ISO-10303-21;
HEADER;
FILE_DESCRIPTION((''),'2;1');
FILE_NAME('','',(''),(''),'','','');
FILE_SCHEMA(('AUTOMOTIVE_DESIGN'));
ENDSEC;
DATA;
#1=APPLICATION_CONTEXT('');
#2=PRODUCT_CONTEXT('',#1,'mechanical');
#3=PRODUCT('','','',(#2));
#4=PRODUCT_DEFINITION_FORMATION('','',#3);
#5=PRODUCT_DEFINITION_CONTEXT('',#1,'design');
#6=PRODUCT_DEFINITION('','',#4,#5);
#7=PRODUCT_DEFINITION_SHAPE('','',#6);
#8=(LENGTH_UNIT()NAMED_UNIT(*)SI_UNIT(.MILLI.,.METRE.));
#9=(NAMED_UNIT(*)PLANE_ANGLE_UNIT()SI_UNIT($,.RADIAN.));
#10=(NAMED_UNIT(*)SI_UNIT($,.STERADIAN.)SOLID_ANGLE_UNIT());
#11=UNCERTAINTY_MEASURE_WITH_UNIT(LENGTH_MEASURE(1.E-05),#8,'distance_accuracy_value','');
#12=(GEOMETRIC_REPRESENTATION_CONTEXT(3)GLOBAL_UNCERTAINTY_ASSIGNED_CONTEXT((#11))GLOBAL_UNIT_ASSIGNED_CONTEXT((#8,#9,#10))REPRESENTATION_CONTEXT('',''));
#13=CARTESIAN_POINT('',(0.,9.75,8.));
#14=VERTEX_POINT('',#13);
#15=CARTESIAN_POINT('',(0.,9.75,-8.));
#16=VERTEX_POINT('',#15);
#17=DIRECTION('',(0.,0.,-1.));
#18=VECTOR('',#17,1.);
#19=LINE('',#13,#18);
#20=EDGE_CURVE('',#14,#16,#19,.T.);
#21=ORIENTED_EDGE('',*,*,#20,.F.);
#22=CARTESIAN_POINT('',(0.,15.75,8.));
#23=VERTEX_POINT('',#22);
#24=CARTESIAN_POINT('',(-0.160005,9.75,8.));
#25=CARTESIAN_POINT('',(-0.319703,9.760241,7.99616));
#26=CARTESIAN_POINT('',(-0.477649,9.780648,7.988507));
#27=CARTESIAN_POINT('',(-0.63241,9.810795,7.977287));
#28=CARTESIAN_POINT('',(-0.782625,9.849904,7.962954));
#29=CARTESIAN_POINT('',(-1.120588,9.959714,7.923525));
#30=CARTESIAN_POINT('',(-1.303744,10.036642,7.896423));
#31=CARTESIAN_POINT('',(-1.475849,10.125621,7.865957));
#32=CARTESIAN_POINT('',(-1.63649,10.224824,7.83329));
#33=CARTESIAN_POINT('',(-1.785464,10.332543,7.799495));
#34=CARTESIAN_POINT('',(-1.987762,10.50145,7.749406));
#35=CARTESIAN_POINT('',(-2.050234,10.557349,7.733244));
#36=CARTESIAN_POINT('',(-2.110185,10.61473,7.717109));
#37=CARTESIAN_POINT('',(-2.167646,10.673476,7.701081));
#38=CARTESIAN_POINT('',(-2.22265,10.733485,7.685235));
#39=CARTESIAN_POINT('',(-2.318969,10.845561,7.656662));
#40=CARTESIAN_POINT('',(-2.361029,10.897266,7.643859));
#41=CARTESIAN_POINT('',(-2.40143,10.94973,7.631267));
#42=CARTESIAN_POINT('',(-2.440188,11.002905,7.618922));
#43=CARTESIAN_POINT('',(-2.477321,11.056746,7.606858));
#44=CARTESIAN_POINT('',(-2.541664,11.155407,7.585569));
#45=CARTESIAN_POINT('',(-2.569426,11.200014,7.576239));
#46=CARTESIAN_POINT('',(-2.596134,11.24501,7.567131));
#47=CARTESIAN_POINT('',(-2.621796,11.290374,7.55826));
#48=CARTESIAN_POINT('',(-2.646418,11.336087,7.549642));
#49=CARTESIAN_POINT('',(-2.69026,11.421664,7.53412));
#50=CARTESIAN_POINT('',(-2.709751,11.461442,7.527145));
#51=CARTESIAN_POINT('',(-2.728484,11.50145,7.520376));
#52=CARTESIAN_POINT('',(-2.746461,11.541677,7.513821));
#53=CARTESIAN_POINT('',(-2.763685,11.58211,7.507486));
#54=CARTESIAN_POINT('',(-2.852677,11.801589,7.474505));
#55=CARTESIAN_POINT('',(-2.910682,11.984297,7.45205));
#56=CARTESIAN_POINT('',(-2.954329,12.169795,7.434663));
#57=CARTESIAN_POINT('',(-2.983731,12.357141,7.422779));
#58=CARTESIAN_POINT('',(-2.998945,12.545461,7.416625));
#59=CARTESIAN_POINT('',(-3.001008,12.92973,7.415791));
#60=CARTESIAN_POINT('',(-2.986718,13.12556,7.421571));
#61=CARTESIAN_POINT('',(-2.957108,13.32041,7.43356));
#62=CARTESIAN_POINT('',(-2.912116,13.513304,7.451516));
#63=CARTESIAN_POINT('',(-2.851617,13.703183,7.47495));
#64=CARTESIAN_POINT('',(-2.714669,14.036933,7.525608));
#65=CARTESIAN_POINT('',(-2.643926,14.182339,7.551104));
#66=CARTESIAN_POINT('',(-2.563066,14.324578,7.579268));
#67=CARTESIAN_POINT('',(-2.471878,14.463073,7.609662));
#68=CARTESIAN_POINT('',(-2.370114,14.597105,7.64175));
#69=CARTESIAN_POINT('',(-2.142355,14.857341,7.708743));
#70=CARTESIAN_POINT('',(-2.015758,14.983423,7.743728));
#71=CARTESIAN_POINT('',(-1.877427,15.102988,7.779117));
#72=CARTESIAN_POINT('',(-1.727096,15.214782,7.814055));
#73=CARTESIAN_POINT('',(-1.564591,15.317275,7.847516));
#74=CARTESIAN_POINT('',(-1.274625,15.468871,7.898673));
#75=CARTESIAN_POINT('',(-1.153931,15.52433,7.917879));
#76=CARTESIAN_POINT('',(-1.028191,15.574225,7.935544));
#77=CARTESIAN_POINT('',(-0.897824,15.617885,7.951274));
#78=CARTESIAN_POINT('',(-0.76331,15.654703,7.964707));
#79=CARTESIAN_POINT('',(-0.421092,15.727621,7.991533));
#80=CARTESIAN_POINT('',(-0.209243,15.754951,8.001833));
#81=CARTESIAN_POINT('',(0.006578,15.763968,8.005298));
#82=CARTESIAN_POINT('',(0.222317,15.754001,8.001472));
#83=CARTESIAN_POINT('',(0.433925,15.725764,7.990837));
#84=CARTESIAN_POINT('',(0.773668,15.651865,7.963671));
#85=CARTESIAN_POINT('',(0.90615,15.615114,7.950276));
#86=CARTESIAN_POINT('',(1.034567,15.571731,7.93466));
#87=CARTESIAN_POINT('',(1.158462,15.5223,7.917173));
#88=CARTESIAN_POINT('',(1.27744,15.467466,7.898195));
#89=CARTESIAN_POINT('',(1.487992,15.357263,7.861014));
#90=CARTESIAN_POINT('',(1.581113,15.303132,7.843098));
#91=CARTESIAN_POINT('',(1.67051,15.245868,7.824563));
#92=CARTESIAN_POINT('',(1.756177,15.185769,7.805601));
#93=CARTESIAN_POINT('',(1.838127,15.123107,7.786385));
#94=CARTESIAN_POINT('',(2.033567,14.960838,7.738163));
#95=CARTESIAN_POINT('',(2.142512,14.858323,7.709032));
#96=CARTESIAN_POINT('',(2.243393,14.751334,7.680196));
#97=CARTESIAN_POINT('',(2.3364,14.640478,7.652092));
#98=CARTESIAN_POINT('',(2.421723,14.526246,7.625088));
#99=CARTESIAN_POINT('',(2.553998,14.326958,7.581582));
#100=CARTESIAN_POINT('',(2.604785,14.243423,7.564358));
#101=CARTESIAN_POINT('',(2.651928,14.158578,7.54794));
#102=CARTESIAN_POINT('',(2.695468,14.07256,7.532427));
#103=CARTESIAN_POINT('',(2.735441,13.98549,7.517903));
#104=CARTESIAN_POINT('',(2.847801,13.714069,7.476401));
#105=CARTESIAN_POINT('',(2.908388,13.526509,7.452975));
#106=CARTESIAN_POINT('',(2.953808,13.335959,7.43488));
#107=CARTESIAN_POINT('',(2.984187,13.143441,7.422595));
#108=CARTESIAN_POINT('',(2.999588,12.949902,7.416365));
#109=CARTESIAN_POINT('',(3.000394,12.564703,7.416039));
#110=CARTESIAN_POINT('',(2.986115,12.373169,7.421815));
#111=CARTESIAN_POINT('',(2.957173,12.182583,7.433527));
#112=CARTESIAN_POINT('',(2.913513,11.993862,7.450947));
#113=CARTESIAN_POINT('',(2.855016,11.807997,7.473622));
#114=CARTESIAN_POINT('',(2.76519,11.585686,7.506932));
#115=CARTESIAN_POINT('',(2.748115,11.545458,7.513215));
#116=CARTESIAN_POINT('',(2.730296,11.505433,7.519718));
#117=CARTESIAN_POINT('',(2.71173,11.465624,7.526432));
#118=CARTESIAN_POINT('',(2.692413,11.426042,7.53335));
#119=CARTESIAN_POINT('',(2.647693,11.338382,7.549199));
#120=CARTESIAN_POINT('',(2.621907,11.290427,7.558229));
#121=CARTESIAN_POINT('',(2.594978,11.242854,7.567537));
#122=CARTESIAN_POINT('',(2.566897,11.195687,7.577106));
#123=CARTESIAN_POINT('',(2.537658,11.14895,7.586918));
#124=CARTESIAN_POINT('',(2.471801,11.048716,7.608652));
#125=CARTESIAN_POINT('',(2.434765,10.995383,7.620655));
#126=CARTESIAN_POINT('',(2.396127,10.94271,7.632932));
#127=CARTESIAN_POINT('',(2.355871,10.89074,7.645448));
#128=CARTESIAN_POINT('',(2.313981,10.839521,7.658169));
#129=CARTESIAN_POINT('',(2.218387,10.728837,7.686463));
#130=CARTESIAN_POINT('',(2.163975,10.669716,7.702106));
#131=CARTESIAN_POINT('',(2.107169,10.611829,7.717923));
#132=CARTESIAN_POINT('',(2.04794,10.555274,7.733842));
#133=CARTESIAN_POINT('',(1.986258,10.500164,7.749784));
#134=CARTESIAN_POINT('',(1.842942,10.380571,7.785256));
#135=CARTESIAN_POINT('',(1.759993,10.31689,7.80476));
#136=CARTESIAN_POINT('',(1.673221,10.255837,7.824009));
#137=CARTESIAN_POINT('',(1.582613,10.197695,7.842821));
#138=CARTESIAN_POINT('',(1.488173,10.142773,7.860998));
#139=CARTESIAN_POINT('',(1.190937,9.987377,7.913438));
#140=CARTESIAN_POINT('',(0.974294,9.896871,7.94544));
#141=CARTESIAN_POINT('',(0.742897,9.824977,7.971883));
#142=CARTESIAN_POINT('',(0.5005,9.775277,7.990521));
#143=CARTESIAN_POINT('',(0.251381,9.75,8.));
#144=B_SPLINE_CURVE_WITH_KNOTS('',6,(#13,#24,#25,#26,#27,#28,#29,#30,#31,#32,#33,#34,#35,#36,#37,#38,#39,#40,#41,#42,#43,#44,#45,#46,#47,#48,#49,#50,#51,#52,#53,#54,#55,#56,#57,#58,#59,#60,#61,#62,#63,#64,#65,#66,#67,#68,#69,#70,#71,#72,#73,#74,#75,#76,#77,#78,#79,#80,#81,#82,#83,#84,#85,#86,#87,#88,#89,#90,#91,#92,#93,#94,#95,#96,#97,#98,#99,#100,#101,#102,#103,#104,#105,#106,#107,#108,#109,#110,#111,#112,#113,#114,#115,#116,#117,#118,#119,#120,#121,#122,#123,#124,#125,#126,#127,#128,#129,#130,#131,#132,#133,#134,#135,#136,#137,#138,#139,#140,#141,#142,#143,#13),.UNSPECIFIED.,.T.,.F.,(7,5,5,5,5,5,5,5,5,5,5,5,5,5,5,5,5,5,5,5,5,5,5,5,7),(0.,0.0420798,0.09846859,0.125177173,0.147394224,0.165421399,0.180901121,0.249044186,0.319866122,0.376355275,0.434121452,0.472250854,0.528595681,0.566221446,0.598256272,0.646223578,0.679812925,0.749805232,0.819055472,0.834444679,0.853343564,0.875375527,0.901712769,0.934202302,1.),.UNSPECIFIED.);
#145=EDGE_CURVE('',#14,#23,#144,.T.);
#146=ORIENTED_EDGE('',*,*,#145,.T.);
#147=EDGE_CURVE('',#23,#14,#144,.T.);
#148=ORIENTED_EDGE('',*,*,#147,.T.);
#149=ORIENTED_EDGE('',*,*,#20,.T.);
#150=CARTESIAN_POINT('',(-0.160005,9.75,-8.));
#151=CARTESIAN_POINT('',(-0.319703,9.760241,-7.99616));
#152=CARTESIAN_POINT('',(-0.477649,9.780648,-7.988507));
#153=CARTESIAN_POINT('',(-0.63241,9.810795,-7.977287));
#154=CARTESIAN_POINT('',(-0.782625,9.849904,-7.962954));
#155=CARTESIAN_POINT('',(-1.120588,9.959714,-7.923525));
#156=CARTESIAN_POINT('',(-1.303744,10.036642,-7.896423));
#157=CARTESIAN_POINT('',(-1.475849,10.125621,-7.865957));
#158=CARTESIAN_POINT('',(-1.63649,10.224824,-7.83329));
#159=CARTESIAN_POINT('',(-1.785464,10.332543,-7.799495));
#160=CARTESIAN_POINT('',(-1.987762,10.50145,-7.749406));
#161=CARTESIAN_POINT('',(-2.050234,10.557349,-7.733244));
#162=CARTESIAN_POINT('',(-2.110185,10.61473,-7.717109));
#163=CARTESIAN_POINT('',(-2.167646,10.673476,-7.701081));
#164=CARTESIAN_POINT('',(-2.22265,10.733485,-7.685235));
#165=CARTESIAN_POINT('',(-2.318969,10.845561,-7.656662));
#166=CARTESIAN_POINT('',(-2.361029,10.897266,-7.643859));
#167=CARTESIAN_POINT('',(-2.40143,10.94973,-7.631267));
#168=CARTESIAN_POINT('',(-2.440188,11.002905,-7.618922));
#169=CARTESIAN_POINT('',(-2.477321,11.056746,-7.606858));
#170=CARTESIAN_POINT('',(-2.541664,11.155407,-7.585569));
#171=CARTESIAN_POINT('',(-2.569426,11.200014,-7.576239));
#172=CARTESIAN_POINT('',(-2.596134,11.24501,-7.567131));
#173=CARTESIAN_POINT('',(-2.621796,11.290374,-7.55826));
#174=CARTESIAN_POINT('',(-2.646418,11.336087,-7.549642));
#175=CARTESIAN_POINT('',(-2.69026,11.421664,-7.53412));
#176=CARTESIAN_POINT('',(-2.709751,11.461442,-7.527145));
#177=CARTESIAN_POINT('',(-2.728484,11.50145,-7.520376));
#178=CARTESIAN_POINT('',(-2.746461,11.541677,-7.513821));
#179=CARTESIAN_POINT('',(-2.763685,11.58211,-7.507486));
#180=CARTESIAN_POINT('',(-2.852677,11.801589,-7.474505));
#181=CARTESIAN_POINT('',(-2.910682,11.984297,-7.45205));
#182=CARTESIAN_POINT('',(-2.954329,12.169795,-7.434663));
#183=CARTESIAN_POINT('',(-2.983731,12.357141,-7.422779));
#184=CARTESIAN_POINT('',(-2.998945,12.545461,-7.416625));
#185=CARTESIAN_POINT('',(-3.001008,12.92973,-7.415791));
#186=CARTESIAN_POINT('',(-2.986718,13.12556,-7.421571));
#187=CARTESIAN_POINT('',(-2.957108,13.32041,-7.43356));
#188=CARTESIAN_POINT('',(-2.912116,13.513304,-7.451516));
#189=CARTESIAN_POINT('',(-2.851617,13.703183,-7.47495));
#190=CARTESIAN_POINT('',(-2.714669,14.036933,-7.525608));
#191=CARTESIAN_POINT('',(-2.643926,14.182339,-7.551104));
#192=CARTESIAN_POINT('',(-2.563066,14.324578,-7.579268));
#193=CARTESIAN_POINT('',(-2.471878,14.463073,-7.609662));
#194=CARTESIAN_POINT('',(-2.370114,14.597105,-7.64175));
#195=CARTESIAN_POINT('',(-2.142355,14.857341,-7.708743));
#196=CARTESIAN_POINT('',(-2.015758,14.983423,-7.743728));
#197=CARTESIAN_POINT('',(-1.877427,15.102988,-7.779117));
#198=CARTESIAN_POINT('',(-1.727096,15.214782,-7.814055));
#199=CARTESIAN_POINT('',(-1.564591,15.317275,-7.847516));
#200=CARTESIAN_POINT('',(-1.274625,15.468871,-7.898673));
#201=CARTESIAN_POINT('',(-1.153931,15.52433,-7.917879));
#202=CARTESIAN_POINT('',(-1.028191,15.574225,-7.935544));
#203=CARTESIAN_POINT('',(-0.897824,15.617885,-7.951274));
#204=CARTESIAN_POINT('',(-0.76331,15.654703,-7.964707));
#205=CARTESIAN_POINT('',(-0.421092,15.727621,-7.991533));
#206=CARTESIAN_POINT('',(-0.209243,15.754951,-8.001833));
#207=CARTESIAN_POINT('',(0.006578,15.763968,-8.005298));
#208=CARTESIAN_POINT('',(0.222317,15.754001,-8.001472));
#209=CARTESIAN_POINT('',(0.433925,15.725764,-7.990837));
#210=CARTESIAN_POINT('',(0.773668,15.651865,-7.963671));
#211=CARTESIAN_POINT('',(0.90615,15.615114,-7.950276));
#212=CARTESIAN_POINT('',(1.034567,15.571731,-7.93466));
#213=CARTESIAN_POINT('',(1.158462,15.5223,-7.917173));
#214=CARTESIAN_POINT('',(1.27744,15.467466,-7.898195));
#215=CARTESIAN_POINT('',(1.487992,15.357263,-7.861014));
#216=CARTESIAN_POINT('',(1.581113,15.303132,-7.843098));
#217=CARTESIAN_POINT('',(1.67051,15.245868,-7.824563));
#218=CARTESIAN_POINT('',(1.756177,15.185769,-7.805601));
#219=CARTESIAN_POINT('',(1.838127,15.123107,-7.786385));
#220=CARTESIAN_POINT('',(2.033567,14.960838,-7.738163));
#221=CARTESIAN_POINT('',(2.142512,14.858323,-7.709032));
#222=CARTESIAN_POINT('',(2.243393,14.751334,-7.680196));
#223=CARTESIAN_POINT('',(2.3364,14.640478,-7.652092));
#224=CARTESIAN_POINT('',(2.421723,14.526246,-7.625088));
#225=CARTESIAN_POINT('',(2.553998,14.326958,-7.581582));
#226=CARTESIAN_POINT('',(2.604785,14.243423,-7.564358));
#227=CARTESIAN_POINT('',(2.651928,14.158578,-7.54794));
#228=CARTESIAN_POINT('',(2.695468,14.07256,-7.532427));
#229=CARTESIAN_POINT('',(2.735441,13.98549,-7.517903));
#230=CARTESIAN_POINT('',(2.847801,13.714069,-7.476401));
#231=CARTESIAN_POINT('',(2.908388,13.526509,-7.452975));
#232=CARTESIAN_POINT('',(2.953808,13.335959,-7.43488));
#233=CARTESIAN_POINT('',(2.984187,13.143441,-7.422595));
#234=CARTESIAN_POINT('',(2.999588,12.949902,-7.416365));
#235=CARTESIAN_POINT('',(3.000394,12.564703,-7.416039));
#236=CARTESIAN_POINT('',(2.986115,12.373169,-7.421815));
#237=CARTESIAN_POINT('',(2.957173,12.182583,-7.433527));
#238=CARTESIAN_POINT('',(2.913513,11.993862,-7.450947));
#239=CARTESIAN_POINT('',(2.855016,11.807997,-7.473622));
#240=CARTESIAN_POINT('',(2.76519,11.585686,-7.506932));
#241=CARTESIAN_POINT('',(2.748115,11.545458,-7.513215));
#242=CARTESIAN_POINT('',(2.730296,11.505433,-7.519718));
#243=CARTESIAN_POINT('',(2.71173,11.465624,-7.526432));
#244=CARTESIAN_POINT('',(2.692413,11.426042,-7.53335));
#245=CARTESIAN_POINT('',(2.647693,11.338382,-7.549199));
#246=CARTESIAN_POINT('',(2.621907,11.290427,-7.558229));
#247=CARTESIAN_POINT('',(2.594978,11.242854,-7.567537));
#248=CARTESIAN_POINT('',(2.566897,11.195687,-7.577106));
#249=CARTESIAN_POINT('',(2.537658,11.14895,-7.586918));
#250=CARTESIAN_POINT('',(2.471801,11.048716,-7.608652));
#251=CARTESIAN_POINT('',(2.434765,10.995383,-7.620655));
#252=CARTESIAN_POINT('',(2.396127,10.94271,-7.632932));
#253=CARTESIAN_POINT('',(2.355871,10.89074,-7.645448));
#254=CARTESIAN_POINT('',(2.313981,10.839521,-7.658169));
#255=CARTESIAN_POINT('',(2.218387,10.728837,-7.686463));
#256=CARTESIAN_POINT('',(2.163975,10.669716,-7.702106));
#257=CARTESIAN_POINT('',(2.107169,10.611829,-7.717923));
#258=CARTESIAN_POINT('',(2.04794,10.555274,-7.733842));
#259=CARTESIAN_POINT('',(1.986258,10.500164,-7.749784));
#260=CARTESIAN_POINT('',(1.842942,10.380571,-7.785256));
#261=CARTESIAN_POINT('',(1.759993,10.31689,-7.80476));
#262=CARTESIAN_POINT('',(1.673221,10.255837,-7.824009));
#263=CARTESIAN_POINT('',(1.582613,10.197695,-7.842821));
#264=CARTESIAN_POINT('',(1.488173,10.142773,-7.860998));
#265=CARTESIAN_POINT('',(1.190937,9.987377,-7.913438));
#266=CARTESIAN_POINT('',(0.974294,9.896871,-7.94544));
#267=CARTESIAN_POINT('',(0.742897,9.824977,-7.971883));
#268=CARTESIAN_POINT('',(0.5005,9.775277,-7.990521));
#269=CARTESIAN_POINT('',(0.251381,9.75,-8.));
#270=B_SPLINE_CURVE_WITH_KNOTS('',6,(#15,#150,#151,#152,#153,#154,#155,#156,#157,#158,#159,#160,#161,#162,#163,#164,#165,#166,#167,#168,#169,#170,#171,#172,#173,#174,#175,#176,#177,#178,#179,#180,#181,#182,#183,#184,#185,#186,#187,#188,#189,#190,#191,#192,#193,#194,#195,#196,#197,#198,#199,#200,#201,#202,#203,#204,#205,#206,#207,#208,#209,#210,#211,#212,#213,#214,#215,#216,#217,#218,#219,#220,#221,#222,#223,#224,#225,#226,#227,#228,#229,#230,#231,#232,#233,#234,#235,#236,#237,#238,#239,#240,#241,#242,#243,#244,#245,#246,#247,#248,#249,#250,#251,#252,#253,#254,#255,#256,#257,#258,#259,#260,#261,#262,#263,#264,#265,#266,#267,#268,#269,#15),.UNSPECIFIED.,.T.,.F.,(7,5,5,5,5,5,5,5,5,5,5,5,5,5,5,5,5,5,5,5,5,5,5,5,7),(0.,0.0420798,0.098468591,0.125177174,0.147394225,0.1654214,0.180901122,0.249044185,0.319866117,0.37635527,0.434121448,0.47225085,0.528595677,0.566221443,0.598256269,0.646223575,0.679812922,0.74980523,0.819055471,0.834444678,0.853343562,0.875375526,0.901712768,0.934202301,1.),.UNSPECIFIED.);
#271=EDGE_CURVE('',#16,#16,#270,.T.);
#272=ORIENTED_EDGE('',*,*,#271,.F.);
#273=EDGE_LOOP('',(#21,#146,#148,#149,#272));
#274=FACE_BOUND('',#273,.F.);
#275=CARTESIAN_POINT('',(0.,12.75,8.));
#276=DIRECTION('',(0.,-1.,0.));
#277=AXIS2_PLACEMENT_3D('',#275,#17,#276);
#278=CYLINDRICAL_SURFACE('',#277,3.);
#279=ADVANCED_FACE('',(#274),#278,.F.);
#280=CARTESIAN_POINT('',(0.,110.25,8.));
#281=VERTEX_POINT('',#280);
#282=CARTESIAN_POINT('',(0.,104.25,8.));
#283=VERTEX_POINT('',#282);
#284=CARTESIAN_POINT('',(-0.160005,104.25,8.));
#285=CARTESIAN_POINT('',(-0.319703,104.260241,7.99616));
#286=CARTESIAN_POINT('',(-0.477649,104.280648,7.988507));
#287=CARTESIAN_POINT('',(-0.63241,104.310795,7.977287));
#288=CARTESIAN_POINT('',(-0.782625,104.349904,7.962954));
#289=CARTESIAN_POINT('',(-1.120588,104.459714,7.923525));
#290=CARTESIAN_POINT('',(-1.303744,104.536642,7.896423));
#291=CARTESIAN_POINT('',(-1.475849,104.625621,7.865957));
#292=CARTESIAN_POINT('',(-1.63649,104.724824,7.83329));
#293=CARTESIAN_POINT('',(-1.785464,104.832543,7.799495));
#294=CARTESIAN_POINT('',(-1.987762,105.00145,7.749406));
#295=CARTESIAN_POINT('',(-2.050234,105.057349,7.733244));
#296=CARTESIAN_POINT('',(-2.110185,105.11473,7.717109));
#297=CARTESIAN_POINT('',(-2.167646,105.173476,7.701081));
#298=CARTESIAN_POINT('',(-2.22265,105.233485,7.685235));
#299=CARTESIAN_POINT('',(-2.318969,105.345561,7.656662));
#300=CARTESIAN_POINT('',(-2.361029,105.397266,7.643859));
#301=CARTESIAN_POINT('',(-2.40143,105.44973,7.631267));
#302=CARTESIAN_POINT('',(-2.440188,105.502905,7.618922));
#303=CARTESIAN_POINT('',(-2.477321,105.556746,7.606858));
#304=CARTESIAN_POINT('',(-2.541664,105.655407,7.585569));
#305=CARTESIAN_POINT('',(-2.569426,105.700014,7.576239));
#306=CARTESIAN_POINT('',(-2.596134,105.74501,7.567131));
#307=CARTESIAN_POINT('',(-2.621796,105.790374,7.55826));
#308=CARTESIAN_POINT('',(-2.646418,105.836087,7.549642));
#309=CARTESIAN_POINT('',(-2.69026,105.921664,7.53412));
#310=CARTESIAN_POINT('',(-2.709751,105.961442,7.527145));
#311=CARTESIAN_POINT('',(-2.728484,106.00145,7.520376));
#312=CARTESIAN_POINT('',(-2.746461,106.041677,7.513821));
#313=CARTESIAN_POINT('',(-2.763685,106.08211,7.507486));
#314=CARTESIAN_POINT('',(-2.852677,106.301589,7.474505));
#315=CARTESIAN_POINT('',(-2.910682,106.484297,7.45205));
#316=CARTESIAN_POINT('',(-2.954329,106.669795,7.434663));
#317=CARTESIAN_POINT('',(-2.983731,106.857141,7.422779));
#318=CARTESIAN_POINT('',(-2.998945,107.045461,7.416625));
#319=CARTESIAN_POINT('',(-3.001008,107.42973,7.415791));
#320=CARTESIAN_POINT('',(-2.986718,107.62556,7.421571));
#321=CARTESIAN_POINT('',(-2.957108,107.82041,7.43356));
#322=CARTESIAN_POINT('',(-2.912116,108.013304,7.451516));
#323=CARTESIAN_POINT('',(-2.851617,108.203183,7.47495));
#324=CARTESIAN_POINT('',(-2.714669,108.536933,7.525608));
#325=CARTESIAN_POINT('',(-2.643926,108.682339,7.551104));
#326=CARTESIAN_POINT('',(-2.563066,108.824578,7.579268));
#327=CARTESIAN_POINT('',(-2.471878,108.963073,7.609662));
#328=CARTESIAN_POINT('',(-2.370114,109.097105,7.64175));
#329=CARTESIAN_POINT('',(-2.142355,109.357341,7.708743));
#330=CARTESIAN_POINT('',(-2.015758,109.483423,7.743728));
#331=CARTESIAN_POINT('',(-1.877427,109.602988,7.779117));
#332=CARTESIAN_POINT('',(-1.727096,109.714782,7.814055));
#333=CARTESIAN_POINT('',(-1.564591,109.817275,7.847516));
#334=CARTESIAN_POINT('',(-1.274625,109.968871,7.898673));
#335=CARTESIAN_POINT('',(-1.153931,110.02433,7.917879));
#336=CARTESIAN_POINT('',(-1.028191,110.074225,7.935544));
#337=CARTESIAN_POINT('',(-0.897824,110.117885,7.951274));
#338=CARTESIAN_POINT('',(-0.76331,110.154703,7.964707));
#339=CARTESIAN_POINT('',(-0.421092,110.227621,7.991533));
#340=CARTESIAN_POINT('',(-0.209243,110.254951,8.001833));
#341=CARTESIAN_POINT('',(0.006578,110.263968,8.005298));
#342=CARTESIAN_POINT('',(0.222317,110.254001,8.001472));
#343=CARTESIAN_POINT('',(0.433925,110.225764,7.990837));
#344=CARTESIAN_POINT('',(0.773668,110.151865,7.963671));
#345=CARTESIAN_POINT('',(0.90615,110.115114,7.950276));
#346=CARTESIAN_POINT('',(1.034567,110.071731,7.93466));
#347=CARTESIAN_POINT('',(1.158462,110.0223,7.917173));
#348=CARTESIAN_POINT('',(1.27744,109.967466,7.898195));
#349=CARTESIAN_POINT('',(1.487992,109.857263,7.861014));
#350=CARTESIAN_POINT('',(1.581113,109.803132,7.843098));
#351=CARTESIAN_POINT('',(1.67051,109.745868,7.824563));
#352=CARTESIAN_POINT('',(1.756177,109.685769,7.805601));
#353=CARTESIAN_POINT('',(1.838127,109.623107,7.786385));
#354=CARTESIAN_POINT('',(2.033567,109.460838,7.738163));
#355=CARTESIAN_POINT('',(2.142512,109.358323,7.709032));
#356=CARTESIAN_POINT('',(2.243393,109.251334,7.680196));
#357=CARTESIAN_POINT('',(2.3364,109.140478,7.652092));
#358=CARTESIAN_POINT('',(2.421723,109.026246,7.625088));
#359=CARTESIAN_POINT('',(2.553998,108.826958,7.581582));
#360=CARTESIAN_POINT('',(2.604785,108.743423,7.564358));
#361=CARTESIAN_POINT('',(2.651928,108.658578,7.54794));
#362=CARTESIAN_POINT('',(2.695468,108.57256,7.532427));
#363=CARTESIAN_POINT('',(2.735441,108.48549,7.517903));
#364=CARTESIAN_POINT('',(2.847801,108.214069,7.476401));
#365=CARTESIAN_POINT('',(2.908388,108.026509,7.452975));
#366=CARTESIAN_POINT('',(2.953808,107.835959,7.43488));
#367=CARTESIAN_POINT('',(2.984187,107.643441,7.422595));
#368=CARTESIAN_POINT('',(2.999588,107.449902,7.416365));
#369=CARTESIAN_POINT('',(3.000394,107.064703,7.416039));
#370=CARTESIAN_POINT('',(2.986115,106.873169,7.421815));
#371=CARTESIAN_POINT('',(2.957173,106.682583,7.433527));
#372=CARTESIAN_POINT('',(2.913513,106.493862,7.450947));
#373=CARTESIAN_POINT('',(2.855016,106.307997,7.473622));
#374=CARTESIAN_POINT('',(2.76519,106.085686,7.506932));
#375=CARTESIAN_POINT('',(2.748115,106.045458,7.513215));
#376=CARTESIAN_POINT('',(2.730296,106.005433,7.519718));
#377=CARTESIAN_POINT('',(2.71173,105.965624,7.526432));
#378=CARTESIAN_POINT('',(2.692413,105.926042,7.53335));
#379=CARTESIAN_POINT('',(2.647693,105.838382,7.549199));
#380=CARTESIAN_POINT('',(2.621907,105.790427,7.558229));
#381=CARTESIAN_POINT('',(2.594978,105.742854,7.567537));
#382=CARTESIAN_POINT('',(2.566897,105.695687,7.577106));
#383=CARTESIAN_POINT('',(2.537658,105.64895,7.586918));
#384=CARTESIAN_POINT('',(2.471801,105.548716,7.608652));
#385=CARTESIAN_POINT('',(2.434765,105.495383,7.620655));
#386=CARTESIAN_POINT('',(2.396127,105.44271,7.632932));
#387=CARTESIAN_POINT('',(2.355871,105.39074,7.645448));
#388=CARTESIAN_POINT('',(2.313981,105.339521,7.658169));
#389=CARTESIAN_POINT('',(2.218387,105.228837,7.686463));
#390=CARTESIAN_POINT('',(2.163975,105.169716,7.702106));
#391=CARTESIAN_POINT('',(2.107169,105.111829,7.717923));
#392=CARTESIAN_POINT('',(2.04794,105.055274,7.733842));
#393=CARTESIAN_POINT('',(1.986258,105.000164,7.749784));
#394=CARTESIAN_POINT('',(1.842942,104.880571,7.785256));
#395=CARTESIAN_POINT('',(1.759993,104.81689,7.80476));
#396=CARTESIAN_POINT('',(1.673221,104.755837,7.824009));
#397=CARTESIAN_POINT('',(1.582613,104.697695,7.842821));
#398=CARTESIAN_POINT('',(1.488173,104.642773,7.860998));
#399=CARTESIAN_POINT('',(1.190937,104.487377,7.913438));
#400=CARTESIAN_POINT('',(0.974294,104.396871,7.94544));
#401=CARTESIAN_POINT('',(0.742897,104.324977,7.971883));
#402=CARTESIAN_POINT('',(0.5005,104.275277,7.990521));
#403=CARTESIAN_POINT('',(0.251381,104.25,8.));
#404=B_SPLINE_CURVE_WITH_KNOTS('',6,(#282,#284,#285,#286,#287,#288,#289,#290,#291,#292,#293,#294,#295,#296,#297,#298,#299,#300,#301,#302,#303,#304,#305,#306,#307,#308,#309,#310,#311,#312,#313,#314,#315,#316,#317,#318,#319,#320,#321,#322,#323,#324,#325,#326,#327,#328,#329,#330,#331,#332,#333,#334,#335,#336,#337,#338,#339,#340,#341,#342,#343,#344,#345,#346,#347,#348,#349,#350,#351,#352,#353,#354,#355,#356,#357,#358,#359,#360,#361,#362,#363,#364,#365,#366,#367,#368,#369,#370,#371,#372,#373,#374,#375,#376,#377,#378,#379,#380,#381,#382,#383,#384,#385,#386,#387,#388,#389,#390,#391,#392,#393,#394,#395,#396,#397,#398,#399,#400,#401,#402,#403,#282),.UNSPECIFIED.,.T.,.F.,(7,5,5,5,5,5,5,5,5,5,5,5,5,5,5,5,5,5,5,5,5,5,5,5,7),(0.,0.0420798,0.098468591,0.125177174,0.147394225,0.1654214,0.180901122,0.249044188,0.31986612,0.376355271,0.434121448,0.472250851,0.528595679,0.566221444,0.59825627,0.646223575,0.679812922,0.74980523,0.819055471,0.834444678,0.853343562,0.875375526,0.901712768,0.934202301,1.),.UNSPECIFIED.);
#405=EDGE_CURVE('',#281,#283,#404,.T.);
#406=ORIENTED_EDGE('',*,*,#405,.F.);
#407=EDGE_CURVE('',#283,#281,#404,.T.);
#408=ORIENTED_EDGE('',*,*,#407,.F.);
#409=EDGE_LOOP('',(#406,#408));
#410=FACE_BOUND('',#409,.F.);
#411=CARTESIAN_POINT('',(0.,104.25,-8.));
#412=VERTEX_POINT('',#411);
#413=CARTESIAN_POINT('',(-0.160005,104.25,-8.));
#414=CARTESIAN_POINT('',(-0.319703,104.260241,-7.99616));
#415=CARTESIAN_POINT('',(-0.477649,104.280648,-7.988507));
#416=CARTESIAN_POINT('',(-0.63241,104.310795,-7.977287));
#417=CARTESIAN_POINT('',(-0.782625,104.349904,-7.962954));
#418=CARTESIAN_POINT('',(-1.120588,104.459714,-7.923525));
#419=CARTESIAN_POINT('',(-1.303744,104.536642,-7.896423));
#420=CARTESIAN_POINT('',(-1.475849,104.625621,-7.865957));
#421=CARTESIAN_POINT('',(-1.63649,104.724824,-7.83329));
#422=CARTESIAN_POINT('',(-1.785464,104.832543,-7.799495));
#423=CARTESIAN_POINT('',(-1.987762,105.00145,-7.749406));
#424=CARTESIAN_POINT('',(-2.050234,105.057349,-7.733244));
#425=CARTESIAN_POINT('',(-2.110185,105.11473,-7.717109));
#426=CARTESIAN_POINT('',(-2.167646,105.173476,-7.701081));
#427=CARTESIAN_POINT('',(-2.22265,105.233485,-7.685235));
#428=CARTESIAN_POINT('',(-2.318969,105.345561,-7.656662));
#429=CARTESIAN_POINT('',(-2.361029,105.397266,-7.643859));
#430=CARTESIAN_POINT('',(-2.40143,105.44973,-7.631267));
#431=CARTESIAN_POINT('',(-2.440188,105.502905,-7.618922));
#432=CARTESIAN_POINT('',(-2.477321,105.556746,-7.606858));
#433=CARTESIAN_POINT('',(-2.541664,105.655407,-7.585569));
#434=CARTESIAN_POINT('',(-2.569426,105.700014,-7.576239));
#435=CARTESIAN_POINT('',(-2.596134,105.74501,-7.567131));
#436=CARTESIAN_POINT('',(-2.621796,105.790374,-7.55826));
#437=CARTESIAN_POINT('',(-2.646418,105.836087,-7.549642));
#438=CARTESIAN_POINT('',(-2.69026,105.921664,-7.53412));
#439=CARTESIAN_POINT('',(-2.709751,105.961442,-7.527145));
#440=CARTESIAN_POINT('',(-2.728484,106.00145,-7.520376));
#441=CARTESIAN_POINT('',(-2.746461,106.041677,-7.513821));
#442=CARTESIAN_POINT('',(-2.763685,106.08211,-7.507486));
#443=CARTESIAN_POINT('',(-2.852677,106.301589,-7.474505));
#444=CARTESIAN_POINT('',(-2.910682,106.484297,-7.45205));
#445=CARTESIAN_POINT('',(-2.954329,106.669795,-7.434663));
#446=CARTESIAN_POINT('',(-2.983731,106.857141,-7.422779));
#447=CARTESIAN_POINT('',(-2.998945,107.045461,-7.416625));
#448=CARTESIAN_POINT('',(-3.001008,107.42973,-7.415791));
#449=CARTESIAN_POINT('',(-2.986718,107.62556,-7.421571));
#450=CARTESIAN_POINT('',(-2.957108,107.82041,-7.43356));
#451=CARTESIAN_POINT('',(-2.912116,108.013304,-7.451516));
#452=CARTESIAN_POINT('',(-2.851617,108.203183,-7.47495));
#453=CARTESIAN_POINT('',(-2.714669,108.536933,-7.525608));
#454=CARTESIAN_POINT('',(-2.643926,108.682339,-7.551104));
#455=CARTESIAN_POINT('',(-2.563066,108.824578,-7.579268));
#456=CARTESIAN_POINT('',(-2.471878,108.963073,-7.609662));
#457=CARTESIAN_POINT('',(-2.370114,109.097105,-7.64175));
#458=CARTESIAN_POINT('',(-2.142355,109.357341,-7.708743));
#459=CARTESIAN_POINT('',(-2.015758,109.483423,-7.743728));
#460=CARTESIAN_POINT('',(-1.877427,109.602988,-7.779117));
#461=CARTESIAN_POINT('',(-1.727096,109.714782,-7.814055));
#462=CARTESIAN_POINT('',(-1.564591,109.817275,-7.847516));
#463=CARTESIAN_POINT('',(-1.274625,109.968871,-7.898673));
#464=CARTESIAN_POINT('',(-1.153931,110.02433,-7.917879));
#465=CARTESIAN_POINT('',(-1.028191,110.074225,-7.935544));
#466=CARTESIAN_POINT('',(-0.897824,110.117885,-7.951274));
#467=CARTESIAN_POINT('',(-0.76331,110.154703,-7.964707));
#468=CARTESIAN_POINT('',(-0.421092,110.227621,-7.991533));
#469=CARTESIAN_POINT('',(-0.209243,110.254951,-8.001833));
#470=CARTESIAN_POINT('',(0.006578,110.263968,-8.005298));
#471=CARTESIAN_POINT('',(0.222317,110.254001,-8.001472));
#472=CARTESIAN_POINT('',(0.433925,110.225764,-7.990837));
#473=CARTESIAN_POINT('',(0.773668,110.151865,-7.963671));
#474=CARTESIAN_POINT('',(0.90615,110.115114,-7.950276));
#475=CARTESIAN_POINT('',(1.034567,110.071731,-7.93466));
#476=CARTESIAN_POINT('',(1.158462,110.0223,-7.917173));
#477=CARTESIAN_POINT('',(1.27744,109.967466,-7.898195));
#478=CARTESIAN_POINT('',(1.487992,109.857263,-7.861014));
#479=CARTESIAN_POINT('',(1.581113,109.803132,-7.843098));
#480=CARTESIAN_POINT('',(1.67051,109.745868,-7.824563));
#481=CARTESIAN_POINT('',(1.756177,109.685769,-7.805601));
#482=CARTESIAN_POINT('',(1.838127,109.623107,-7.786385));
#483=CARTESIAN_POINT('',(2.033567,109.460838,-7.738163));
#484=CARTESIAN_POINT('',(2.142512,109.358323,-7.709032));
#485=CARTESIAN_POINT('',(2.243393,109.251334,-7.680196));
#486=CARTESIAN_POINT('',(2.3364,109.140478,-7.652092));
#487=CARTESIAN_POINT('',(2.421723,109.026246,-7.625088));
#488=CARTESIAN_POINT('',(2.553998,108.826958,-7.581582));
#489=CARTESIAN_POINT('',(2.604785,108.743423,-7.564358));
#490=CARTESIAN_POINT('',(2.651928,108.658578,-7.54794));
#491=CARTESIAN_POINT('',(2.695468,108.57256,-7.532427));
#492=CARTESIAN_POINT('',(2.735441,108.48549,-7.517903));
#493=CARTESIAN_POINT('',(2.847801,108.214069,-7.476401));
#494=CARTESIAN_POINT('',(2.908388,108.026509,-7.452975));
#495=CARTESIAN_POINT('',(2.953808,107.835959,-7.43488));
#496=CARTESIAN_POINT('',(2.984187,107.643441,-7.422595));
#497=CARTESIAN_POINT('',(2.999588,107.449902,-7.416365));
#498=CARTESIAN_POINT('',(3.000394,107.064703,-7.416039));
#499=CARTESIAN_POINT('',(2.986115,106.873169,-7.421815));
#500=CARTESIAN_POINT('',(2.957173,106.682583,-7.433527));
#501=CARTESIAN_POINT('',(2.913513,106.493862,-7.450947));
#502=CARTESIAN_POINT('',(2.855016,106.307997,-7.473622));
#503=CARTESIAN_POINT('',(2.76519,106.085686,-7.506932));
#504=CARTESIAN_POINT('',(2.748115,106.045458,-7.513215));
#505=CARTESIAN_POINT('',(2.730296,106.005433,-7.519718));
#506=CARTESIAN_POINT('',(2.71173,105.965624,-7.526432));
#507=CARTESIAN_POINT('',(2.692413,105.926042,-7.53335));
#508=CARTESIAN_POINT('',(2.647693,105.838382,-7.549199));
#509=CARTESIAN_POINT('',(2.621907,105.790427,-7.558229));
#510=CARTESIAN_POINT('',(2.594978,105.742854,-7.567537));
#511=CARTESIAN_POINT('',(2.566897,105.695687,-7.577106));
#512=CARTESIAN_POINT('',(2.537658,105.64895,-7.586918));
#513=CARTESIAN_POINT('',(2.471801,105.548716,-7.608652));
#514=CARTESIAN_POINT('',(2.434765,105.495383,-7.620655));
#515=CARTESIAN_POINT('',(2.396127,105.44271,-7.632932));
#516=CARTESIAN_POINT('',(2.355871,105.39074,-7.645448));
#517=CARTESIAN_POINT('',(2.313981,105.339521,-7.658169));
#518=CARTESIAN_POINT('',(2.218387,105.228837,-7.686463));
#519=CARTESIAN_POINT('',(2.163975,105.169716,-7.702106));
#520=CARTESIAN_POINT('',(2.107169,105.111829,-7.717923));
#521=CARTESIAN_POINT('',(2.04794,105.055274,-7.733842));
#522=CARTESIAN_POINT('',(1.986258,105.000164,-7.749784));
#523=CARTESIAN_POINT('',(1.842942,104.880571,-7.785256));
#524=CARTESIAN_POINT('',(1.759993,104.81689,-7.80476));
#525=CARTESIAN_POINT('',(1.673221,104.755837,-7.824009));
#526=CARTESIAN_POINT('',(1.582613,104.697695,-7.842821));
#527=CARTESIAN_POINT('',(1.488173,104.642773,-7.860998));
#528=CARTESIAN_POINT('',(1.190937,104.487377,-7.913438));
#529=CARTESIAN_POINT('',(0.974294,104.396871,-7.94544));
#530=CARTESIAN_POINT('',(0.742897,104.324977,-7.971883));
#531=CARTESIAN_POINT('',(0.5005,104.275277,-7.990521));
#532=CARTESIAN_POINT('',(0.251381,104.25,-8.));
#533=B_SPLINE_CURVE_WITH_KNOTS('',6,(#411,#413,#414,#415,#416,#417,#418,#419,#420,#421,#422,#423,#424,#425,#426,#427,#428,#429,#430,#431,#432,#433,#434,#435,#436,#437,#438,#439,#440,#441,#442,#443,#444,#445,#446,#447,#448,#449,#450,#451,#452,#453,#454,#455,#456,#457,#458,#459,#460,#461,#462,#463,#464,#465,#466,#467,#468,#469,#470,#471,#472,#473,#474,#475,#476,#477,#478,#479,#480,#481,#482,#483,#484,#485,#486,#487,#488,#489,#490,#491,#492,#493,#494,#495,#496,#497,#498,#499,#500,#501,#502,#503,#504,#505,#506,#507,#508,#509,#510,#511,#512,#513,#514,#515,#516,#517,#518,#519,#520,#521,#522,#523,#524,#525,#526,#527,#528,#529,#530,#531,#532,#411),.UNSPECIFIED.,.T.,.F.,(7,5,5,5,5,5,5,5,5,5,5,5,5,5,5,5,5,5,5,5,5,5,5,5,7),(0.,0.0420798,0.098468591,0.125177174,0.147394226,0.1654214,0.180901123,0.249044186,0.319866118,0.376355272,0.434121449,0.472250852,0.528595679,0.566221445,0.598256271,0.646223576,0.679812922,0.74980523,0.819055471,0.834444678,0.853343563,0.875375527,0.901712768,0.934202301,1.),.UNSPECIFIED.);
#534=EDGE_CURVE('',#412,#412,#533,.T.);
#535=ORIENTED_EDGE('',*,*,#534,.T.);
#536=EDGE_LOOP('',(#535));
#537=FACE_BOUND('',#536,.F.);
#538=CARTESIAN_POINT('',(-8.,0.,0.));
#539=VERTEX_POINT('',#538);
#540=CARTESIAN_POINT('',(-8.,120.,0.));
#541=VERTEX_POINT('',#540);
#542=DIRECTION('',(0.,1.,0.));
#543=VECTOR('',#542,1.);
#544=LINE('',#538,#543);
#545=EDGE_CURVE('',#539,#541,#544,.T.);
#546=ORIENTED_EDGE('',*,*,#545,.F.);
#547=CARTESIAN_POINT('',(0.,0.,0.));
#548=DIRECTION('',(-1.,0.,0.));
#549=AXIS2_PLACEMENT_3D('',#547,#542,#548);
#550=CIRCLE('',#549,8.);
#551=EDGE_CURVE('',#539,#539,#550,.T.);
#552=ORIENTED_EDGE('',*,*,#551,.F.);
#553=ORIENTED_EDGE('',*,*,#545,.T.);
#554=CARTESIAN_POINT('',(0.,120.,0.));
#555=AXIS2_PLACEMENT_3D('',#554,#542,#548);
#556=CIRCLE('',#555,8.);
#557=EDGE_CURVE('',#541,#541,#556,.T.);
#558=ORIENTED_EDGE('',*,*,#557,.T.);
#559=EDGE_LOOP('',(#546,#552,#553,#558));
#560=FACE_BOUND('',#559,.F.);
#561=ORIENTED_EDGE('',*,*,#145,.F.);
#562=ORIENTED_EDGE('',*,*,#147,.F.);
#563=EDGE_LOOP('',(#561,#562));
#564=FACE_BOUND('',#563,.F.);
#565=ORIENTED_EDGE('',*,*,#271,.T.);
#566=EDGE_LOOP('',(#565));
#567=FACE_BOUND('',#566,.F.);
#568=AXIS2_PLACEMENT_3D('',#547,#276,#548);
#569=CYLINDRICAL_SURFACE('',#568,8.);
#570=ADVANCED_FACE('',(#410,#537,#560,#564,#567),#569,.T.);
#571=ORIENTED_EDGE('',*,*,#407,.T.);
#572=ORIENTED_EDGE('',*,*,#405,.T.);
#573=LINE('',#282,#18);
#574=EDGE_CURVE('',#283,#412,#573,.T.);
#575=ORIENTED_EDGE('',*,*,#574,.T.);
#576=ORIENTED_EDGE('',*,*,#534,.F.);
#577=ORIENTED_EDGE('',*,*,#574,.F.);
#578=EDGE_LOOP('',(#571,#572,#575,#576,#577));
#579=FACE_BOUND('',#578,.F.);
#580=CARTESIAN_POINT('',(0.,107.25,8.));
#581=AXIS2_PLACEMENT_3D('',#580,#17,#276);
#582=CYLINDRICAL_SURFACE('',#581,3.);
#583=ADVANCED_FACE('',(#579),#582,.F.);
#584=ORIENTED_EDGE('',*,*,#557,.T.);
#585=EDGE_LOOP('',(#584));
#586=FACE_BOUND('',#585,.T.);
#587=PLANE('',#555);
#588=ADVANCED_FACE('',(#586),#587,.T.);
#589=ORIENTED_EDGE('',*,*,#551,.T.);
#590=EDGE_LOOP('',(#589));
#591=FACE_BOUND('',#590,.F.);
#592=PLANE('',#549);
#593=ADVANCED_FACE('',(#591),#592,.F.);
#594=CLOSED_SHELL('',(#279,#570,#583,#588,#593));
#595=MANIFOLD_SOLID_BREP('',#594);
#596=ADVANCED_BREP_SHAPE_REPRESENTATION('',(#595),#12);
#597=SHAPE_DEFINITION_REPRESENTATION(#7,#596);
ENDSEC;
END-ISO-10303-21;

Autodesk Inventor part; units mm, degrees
ref_plane "YZ Plane" through (0, 0, 0) normal (1, 0, 0) x (0, 1, 0)
ref_plane "XZ Plane" through (0, 0, 0) normal (0, 1, 0) x (-1, 0, 0)
sketch "Skizze1" plane through (0, 0, 0) normal (0, 1, 0) x (-1, 0, 0)
  circle A0 centre (0, 0) radius 8
  dimension "d0" = 16
extrude "Extrusion1" add sketch "Skizze1" along normal blind 120
ref_plane "Arbeitsebene1" through (0, 0, 8) normal (0, 0, 1) x (1, 0, 0)
sketch "Skizze2" plane through (0, 0, 8) normal (0, 0, 1) x (1, 0, 0)
  line L0 (8, 120) -> (-8, 120) projected
  line L1 (8, 0) -> (-8, 0) projected
  line L2 (-8, 0) -> (-8, 120) projected
  line L3 (-8, 60) -> (7.5453, 60)
  point P0 (0, 0)
  point P1 (0, 12.75)
  point P2 (0, 107.25)
  dimension "d13" = 94.5
  dimension "d14" = 120
hole "Bohrung1" at (0, 12.75, 8) at (0, 107.25, 8) direction (0, 0, -1) diameter 6 end through all
properties part number "21"
